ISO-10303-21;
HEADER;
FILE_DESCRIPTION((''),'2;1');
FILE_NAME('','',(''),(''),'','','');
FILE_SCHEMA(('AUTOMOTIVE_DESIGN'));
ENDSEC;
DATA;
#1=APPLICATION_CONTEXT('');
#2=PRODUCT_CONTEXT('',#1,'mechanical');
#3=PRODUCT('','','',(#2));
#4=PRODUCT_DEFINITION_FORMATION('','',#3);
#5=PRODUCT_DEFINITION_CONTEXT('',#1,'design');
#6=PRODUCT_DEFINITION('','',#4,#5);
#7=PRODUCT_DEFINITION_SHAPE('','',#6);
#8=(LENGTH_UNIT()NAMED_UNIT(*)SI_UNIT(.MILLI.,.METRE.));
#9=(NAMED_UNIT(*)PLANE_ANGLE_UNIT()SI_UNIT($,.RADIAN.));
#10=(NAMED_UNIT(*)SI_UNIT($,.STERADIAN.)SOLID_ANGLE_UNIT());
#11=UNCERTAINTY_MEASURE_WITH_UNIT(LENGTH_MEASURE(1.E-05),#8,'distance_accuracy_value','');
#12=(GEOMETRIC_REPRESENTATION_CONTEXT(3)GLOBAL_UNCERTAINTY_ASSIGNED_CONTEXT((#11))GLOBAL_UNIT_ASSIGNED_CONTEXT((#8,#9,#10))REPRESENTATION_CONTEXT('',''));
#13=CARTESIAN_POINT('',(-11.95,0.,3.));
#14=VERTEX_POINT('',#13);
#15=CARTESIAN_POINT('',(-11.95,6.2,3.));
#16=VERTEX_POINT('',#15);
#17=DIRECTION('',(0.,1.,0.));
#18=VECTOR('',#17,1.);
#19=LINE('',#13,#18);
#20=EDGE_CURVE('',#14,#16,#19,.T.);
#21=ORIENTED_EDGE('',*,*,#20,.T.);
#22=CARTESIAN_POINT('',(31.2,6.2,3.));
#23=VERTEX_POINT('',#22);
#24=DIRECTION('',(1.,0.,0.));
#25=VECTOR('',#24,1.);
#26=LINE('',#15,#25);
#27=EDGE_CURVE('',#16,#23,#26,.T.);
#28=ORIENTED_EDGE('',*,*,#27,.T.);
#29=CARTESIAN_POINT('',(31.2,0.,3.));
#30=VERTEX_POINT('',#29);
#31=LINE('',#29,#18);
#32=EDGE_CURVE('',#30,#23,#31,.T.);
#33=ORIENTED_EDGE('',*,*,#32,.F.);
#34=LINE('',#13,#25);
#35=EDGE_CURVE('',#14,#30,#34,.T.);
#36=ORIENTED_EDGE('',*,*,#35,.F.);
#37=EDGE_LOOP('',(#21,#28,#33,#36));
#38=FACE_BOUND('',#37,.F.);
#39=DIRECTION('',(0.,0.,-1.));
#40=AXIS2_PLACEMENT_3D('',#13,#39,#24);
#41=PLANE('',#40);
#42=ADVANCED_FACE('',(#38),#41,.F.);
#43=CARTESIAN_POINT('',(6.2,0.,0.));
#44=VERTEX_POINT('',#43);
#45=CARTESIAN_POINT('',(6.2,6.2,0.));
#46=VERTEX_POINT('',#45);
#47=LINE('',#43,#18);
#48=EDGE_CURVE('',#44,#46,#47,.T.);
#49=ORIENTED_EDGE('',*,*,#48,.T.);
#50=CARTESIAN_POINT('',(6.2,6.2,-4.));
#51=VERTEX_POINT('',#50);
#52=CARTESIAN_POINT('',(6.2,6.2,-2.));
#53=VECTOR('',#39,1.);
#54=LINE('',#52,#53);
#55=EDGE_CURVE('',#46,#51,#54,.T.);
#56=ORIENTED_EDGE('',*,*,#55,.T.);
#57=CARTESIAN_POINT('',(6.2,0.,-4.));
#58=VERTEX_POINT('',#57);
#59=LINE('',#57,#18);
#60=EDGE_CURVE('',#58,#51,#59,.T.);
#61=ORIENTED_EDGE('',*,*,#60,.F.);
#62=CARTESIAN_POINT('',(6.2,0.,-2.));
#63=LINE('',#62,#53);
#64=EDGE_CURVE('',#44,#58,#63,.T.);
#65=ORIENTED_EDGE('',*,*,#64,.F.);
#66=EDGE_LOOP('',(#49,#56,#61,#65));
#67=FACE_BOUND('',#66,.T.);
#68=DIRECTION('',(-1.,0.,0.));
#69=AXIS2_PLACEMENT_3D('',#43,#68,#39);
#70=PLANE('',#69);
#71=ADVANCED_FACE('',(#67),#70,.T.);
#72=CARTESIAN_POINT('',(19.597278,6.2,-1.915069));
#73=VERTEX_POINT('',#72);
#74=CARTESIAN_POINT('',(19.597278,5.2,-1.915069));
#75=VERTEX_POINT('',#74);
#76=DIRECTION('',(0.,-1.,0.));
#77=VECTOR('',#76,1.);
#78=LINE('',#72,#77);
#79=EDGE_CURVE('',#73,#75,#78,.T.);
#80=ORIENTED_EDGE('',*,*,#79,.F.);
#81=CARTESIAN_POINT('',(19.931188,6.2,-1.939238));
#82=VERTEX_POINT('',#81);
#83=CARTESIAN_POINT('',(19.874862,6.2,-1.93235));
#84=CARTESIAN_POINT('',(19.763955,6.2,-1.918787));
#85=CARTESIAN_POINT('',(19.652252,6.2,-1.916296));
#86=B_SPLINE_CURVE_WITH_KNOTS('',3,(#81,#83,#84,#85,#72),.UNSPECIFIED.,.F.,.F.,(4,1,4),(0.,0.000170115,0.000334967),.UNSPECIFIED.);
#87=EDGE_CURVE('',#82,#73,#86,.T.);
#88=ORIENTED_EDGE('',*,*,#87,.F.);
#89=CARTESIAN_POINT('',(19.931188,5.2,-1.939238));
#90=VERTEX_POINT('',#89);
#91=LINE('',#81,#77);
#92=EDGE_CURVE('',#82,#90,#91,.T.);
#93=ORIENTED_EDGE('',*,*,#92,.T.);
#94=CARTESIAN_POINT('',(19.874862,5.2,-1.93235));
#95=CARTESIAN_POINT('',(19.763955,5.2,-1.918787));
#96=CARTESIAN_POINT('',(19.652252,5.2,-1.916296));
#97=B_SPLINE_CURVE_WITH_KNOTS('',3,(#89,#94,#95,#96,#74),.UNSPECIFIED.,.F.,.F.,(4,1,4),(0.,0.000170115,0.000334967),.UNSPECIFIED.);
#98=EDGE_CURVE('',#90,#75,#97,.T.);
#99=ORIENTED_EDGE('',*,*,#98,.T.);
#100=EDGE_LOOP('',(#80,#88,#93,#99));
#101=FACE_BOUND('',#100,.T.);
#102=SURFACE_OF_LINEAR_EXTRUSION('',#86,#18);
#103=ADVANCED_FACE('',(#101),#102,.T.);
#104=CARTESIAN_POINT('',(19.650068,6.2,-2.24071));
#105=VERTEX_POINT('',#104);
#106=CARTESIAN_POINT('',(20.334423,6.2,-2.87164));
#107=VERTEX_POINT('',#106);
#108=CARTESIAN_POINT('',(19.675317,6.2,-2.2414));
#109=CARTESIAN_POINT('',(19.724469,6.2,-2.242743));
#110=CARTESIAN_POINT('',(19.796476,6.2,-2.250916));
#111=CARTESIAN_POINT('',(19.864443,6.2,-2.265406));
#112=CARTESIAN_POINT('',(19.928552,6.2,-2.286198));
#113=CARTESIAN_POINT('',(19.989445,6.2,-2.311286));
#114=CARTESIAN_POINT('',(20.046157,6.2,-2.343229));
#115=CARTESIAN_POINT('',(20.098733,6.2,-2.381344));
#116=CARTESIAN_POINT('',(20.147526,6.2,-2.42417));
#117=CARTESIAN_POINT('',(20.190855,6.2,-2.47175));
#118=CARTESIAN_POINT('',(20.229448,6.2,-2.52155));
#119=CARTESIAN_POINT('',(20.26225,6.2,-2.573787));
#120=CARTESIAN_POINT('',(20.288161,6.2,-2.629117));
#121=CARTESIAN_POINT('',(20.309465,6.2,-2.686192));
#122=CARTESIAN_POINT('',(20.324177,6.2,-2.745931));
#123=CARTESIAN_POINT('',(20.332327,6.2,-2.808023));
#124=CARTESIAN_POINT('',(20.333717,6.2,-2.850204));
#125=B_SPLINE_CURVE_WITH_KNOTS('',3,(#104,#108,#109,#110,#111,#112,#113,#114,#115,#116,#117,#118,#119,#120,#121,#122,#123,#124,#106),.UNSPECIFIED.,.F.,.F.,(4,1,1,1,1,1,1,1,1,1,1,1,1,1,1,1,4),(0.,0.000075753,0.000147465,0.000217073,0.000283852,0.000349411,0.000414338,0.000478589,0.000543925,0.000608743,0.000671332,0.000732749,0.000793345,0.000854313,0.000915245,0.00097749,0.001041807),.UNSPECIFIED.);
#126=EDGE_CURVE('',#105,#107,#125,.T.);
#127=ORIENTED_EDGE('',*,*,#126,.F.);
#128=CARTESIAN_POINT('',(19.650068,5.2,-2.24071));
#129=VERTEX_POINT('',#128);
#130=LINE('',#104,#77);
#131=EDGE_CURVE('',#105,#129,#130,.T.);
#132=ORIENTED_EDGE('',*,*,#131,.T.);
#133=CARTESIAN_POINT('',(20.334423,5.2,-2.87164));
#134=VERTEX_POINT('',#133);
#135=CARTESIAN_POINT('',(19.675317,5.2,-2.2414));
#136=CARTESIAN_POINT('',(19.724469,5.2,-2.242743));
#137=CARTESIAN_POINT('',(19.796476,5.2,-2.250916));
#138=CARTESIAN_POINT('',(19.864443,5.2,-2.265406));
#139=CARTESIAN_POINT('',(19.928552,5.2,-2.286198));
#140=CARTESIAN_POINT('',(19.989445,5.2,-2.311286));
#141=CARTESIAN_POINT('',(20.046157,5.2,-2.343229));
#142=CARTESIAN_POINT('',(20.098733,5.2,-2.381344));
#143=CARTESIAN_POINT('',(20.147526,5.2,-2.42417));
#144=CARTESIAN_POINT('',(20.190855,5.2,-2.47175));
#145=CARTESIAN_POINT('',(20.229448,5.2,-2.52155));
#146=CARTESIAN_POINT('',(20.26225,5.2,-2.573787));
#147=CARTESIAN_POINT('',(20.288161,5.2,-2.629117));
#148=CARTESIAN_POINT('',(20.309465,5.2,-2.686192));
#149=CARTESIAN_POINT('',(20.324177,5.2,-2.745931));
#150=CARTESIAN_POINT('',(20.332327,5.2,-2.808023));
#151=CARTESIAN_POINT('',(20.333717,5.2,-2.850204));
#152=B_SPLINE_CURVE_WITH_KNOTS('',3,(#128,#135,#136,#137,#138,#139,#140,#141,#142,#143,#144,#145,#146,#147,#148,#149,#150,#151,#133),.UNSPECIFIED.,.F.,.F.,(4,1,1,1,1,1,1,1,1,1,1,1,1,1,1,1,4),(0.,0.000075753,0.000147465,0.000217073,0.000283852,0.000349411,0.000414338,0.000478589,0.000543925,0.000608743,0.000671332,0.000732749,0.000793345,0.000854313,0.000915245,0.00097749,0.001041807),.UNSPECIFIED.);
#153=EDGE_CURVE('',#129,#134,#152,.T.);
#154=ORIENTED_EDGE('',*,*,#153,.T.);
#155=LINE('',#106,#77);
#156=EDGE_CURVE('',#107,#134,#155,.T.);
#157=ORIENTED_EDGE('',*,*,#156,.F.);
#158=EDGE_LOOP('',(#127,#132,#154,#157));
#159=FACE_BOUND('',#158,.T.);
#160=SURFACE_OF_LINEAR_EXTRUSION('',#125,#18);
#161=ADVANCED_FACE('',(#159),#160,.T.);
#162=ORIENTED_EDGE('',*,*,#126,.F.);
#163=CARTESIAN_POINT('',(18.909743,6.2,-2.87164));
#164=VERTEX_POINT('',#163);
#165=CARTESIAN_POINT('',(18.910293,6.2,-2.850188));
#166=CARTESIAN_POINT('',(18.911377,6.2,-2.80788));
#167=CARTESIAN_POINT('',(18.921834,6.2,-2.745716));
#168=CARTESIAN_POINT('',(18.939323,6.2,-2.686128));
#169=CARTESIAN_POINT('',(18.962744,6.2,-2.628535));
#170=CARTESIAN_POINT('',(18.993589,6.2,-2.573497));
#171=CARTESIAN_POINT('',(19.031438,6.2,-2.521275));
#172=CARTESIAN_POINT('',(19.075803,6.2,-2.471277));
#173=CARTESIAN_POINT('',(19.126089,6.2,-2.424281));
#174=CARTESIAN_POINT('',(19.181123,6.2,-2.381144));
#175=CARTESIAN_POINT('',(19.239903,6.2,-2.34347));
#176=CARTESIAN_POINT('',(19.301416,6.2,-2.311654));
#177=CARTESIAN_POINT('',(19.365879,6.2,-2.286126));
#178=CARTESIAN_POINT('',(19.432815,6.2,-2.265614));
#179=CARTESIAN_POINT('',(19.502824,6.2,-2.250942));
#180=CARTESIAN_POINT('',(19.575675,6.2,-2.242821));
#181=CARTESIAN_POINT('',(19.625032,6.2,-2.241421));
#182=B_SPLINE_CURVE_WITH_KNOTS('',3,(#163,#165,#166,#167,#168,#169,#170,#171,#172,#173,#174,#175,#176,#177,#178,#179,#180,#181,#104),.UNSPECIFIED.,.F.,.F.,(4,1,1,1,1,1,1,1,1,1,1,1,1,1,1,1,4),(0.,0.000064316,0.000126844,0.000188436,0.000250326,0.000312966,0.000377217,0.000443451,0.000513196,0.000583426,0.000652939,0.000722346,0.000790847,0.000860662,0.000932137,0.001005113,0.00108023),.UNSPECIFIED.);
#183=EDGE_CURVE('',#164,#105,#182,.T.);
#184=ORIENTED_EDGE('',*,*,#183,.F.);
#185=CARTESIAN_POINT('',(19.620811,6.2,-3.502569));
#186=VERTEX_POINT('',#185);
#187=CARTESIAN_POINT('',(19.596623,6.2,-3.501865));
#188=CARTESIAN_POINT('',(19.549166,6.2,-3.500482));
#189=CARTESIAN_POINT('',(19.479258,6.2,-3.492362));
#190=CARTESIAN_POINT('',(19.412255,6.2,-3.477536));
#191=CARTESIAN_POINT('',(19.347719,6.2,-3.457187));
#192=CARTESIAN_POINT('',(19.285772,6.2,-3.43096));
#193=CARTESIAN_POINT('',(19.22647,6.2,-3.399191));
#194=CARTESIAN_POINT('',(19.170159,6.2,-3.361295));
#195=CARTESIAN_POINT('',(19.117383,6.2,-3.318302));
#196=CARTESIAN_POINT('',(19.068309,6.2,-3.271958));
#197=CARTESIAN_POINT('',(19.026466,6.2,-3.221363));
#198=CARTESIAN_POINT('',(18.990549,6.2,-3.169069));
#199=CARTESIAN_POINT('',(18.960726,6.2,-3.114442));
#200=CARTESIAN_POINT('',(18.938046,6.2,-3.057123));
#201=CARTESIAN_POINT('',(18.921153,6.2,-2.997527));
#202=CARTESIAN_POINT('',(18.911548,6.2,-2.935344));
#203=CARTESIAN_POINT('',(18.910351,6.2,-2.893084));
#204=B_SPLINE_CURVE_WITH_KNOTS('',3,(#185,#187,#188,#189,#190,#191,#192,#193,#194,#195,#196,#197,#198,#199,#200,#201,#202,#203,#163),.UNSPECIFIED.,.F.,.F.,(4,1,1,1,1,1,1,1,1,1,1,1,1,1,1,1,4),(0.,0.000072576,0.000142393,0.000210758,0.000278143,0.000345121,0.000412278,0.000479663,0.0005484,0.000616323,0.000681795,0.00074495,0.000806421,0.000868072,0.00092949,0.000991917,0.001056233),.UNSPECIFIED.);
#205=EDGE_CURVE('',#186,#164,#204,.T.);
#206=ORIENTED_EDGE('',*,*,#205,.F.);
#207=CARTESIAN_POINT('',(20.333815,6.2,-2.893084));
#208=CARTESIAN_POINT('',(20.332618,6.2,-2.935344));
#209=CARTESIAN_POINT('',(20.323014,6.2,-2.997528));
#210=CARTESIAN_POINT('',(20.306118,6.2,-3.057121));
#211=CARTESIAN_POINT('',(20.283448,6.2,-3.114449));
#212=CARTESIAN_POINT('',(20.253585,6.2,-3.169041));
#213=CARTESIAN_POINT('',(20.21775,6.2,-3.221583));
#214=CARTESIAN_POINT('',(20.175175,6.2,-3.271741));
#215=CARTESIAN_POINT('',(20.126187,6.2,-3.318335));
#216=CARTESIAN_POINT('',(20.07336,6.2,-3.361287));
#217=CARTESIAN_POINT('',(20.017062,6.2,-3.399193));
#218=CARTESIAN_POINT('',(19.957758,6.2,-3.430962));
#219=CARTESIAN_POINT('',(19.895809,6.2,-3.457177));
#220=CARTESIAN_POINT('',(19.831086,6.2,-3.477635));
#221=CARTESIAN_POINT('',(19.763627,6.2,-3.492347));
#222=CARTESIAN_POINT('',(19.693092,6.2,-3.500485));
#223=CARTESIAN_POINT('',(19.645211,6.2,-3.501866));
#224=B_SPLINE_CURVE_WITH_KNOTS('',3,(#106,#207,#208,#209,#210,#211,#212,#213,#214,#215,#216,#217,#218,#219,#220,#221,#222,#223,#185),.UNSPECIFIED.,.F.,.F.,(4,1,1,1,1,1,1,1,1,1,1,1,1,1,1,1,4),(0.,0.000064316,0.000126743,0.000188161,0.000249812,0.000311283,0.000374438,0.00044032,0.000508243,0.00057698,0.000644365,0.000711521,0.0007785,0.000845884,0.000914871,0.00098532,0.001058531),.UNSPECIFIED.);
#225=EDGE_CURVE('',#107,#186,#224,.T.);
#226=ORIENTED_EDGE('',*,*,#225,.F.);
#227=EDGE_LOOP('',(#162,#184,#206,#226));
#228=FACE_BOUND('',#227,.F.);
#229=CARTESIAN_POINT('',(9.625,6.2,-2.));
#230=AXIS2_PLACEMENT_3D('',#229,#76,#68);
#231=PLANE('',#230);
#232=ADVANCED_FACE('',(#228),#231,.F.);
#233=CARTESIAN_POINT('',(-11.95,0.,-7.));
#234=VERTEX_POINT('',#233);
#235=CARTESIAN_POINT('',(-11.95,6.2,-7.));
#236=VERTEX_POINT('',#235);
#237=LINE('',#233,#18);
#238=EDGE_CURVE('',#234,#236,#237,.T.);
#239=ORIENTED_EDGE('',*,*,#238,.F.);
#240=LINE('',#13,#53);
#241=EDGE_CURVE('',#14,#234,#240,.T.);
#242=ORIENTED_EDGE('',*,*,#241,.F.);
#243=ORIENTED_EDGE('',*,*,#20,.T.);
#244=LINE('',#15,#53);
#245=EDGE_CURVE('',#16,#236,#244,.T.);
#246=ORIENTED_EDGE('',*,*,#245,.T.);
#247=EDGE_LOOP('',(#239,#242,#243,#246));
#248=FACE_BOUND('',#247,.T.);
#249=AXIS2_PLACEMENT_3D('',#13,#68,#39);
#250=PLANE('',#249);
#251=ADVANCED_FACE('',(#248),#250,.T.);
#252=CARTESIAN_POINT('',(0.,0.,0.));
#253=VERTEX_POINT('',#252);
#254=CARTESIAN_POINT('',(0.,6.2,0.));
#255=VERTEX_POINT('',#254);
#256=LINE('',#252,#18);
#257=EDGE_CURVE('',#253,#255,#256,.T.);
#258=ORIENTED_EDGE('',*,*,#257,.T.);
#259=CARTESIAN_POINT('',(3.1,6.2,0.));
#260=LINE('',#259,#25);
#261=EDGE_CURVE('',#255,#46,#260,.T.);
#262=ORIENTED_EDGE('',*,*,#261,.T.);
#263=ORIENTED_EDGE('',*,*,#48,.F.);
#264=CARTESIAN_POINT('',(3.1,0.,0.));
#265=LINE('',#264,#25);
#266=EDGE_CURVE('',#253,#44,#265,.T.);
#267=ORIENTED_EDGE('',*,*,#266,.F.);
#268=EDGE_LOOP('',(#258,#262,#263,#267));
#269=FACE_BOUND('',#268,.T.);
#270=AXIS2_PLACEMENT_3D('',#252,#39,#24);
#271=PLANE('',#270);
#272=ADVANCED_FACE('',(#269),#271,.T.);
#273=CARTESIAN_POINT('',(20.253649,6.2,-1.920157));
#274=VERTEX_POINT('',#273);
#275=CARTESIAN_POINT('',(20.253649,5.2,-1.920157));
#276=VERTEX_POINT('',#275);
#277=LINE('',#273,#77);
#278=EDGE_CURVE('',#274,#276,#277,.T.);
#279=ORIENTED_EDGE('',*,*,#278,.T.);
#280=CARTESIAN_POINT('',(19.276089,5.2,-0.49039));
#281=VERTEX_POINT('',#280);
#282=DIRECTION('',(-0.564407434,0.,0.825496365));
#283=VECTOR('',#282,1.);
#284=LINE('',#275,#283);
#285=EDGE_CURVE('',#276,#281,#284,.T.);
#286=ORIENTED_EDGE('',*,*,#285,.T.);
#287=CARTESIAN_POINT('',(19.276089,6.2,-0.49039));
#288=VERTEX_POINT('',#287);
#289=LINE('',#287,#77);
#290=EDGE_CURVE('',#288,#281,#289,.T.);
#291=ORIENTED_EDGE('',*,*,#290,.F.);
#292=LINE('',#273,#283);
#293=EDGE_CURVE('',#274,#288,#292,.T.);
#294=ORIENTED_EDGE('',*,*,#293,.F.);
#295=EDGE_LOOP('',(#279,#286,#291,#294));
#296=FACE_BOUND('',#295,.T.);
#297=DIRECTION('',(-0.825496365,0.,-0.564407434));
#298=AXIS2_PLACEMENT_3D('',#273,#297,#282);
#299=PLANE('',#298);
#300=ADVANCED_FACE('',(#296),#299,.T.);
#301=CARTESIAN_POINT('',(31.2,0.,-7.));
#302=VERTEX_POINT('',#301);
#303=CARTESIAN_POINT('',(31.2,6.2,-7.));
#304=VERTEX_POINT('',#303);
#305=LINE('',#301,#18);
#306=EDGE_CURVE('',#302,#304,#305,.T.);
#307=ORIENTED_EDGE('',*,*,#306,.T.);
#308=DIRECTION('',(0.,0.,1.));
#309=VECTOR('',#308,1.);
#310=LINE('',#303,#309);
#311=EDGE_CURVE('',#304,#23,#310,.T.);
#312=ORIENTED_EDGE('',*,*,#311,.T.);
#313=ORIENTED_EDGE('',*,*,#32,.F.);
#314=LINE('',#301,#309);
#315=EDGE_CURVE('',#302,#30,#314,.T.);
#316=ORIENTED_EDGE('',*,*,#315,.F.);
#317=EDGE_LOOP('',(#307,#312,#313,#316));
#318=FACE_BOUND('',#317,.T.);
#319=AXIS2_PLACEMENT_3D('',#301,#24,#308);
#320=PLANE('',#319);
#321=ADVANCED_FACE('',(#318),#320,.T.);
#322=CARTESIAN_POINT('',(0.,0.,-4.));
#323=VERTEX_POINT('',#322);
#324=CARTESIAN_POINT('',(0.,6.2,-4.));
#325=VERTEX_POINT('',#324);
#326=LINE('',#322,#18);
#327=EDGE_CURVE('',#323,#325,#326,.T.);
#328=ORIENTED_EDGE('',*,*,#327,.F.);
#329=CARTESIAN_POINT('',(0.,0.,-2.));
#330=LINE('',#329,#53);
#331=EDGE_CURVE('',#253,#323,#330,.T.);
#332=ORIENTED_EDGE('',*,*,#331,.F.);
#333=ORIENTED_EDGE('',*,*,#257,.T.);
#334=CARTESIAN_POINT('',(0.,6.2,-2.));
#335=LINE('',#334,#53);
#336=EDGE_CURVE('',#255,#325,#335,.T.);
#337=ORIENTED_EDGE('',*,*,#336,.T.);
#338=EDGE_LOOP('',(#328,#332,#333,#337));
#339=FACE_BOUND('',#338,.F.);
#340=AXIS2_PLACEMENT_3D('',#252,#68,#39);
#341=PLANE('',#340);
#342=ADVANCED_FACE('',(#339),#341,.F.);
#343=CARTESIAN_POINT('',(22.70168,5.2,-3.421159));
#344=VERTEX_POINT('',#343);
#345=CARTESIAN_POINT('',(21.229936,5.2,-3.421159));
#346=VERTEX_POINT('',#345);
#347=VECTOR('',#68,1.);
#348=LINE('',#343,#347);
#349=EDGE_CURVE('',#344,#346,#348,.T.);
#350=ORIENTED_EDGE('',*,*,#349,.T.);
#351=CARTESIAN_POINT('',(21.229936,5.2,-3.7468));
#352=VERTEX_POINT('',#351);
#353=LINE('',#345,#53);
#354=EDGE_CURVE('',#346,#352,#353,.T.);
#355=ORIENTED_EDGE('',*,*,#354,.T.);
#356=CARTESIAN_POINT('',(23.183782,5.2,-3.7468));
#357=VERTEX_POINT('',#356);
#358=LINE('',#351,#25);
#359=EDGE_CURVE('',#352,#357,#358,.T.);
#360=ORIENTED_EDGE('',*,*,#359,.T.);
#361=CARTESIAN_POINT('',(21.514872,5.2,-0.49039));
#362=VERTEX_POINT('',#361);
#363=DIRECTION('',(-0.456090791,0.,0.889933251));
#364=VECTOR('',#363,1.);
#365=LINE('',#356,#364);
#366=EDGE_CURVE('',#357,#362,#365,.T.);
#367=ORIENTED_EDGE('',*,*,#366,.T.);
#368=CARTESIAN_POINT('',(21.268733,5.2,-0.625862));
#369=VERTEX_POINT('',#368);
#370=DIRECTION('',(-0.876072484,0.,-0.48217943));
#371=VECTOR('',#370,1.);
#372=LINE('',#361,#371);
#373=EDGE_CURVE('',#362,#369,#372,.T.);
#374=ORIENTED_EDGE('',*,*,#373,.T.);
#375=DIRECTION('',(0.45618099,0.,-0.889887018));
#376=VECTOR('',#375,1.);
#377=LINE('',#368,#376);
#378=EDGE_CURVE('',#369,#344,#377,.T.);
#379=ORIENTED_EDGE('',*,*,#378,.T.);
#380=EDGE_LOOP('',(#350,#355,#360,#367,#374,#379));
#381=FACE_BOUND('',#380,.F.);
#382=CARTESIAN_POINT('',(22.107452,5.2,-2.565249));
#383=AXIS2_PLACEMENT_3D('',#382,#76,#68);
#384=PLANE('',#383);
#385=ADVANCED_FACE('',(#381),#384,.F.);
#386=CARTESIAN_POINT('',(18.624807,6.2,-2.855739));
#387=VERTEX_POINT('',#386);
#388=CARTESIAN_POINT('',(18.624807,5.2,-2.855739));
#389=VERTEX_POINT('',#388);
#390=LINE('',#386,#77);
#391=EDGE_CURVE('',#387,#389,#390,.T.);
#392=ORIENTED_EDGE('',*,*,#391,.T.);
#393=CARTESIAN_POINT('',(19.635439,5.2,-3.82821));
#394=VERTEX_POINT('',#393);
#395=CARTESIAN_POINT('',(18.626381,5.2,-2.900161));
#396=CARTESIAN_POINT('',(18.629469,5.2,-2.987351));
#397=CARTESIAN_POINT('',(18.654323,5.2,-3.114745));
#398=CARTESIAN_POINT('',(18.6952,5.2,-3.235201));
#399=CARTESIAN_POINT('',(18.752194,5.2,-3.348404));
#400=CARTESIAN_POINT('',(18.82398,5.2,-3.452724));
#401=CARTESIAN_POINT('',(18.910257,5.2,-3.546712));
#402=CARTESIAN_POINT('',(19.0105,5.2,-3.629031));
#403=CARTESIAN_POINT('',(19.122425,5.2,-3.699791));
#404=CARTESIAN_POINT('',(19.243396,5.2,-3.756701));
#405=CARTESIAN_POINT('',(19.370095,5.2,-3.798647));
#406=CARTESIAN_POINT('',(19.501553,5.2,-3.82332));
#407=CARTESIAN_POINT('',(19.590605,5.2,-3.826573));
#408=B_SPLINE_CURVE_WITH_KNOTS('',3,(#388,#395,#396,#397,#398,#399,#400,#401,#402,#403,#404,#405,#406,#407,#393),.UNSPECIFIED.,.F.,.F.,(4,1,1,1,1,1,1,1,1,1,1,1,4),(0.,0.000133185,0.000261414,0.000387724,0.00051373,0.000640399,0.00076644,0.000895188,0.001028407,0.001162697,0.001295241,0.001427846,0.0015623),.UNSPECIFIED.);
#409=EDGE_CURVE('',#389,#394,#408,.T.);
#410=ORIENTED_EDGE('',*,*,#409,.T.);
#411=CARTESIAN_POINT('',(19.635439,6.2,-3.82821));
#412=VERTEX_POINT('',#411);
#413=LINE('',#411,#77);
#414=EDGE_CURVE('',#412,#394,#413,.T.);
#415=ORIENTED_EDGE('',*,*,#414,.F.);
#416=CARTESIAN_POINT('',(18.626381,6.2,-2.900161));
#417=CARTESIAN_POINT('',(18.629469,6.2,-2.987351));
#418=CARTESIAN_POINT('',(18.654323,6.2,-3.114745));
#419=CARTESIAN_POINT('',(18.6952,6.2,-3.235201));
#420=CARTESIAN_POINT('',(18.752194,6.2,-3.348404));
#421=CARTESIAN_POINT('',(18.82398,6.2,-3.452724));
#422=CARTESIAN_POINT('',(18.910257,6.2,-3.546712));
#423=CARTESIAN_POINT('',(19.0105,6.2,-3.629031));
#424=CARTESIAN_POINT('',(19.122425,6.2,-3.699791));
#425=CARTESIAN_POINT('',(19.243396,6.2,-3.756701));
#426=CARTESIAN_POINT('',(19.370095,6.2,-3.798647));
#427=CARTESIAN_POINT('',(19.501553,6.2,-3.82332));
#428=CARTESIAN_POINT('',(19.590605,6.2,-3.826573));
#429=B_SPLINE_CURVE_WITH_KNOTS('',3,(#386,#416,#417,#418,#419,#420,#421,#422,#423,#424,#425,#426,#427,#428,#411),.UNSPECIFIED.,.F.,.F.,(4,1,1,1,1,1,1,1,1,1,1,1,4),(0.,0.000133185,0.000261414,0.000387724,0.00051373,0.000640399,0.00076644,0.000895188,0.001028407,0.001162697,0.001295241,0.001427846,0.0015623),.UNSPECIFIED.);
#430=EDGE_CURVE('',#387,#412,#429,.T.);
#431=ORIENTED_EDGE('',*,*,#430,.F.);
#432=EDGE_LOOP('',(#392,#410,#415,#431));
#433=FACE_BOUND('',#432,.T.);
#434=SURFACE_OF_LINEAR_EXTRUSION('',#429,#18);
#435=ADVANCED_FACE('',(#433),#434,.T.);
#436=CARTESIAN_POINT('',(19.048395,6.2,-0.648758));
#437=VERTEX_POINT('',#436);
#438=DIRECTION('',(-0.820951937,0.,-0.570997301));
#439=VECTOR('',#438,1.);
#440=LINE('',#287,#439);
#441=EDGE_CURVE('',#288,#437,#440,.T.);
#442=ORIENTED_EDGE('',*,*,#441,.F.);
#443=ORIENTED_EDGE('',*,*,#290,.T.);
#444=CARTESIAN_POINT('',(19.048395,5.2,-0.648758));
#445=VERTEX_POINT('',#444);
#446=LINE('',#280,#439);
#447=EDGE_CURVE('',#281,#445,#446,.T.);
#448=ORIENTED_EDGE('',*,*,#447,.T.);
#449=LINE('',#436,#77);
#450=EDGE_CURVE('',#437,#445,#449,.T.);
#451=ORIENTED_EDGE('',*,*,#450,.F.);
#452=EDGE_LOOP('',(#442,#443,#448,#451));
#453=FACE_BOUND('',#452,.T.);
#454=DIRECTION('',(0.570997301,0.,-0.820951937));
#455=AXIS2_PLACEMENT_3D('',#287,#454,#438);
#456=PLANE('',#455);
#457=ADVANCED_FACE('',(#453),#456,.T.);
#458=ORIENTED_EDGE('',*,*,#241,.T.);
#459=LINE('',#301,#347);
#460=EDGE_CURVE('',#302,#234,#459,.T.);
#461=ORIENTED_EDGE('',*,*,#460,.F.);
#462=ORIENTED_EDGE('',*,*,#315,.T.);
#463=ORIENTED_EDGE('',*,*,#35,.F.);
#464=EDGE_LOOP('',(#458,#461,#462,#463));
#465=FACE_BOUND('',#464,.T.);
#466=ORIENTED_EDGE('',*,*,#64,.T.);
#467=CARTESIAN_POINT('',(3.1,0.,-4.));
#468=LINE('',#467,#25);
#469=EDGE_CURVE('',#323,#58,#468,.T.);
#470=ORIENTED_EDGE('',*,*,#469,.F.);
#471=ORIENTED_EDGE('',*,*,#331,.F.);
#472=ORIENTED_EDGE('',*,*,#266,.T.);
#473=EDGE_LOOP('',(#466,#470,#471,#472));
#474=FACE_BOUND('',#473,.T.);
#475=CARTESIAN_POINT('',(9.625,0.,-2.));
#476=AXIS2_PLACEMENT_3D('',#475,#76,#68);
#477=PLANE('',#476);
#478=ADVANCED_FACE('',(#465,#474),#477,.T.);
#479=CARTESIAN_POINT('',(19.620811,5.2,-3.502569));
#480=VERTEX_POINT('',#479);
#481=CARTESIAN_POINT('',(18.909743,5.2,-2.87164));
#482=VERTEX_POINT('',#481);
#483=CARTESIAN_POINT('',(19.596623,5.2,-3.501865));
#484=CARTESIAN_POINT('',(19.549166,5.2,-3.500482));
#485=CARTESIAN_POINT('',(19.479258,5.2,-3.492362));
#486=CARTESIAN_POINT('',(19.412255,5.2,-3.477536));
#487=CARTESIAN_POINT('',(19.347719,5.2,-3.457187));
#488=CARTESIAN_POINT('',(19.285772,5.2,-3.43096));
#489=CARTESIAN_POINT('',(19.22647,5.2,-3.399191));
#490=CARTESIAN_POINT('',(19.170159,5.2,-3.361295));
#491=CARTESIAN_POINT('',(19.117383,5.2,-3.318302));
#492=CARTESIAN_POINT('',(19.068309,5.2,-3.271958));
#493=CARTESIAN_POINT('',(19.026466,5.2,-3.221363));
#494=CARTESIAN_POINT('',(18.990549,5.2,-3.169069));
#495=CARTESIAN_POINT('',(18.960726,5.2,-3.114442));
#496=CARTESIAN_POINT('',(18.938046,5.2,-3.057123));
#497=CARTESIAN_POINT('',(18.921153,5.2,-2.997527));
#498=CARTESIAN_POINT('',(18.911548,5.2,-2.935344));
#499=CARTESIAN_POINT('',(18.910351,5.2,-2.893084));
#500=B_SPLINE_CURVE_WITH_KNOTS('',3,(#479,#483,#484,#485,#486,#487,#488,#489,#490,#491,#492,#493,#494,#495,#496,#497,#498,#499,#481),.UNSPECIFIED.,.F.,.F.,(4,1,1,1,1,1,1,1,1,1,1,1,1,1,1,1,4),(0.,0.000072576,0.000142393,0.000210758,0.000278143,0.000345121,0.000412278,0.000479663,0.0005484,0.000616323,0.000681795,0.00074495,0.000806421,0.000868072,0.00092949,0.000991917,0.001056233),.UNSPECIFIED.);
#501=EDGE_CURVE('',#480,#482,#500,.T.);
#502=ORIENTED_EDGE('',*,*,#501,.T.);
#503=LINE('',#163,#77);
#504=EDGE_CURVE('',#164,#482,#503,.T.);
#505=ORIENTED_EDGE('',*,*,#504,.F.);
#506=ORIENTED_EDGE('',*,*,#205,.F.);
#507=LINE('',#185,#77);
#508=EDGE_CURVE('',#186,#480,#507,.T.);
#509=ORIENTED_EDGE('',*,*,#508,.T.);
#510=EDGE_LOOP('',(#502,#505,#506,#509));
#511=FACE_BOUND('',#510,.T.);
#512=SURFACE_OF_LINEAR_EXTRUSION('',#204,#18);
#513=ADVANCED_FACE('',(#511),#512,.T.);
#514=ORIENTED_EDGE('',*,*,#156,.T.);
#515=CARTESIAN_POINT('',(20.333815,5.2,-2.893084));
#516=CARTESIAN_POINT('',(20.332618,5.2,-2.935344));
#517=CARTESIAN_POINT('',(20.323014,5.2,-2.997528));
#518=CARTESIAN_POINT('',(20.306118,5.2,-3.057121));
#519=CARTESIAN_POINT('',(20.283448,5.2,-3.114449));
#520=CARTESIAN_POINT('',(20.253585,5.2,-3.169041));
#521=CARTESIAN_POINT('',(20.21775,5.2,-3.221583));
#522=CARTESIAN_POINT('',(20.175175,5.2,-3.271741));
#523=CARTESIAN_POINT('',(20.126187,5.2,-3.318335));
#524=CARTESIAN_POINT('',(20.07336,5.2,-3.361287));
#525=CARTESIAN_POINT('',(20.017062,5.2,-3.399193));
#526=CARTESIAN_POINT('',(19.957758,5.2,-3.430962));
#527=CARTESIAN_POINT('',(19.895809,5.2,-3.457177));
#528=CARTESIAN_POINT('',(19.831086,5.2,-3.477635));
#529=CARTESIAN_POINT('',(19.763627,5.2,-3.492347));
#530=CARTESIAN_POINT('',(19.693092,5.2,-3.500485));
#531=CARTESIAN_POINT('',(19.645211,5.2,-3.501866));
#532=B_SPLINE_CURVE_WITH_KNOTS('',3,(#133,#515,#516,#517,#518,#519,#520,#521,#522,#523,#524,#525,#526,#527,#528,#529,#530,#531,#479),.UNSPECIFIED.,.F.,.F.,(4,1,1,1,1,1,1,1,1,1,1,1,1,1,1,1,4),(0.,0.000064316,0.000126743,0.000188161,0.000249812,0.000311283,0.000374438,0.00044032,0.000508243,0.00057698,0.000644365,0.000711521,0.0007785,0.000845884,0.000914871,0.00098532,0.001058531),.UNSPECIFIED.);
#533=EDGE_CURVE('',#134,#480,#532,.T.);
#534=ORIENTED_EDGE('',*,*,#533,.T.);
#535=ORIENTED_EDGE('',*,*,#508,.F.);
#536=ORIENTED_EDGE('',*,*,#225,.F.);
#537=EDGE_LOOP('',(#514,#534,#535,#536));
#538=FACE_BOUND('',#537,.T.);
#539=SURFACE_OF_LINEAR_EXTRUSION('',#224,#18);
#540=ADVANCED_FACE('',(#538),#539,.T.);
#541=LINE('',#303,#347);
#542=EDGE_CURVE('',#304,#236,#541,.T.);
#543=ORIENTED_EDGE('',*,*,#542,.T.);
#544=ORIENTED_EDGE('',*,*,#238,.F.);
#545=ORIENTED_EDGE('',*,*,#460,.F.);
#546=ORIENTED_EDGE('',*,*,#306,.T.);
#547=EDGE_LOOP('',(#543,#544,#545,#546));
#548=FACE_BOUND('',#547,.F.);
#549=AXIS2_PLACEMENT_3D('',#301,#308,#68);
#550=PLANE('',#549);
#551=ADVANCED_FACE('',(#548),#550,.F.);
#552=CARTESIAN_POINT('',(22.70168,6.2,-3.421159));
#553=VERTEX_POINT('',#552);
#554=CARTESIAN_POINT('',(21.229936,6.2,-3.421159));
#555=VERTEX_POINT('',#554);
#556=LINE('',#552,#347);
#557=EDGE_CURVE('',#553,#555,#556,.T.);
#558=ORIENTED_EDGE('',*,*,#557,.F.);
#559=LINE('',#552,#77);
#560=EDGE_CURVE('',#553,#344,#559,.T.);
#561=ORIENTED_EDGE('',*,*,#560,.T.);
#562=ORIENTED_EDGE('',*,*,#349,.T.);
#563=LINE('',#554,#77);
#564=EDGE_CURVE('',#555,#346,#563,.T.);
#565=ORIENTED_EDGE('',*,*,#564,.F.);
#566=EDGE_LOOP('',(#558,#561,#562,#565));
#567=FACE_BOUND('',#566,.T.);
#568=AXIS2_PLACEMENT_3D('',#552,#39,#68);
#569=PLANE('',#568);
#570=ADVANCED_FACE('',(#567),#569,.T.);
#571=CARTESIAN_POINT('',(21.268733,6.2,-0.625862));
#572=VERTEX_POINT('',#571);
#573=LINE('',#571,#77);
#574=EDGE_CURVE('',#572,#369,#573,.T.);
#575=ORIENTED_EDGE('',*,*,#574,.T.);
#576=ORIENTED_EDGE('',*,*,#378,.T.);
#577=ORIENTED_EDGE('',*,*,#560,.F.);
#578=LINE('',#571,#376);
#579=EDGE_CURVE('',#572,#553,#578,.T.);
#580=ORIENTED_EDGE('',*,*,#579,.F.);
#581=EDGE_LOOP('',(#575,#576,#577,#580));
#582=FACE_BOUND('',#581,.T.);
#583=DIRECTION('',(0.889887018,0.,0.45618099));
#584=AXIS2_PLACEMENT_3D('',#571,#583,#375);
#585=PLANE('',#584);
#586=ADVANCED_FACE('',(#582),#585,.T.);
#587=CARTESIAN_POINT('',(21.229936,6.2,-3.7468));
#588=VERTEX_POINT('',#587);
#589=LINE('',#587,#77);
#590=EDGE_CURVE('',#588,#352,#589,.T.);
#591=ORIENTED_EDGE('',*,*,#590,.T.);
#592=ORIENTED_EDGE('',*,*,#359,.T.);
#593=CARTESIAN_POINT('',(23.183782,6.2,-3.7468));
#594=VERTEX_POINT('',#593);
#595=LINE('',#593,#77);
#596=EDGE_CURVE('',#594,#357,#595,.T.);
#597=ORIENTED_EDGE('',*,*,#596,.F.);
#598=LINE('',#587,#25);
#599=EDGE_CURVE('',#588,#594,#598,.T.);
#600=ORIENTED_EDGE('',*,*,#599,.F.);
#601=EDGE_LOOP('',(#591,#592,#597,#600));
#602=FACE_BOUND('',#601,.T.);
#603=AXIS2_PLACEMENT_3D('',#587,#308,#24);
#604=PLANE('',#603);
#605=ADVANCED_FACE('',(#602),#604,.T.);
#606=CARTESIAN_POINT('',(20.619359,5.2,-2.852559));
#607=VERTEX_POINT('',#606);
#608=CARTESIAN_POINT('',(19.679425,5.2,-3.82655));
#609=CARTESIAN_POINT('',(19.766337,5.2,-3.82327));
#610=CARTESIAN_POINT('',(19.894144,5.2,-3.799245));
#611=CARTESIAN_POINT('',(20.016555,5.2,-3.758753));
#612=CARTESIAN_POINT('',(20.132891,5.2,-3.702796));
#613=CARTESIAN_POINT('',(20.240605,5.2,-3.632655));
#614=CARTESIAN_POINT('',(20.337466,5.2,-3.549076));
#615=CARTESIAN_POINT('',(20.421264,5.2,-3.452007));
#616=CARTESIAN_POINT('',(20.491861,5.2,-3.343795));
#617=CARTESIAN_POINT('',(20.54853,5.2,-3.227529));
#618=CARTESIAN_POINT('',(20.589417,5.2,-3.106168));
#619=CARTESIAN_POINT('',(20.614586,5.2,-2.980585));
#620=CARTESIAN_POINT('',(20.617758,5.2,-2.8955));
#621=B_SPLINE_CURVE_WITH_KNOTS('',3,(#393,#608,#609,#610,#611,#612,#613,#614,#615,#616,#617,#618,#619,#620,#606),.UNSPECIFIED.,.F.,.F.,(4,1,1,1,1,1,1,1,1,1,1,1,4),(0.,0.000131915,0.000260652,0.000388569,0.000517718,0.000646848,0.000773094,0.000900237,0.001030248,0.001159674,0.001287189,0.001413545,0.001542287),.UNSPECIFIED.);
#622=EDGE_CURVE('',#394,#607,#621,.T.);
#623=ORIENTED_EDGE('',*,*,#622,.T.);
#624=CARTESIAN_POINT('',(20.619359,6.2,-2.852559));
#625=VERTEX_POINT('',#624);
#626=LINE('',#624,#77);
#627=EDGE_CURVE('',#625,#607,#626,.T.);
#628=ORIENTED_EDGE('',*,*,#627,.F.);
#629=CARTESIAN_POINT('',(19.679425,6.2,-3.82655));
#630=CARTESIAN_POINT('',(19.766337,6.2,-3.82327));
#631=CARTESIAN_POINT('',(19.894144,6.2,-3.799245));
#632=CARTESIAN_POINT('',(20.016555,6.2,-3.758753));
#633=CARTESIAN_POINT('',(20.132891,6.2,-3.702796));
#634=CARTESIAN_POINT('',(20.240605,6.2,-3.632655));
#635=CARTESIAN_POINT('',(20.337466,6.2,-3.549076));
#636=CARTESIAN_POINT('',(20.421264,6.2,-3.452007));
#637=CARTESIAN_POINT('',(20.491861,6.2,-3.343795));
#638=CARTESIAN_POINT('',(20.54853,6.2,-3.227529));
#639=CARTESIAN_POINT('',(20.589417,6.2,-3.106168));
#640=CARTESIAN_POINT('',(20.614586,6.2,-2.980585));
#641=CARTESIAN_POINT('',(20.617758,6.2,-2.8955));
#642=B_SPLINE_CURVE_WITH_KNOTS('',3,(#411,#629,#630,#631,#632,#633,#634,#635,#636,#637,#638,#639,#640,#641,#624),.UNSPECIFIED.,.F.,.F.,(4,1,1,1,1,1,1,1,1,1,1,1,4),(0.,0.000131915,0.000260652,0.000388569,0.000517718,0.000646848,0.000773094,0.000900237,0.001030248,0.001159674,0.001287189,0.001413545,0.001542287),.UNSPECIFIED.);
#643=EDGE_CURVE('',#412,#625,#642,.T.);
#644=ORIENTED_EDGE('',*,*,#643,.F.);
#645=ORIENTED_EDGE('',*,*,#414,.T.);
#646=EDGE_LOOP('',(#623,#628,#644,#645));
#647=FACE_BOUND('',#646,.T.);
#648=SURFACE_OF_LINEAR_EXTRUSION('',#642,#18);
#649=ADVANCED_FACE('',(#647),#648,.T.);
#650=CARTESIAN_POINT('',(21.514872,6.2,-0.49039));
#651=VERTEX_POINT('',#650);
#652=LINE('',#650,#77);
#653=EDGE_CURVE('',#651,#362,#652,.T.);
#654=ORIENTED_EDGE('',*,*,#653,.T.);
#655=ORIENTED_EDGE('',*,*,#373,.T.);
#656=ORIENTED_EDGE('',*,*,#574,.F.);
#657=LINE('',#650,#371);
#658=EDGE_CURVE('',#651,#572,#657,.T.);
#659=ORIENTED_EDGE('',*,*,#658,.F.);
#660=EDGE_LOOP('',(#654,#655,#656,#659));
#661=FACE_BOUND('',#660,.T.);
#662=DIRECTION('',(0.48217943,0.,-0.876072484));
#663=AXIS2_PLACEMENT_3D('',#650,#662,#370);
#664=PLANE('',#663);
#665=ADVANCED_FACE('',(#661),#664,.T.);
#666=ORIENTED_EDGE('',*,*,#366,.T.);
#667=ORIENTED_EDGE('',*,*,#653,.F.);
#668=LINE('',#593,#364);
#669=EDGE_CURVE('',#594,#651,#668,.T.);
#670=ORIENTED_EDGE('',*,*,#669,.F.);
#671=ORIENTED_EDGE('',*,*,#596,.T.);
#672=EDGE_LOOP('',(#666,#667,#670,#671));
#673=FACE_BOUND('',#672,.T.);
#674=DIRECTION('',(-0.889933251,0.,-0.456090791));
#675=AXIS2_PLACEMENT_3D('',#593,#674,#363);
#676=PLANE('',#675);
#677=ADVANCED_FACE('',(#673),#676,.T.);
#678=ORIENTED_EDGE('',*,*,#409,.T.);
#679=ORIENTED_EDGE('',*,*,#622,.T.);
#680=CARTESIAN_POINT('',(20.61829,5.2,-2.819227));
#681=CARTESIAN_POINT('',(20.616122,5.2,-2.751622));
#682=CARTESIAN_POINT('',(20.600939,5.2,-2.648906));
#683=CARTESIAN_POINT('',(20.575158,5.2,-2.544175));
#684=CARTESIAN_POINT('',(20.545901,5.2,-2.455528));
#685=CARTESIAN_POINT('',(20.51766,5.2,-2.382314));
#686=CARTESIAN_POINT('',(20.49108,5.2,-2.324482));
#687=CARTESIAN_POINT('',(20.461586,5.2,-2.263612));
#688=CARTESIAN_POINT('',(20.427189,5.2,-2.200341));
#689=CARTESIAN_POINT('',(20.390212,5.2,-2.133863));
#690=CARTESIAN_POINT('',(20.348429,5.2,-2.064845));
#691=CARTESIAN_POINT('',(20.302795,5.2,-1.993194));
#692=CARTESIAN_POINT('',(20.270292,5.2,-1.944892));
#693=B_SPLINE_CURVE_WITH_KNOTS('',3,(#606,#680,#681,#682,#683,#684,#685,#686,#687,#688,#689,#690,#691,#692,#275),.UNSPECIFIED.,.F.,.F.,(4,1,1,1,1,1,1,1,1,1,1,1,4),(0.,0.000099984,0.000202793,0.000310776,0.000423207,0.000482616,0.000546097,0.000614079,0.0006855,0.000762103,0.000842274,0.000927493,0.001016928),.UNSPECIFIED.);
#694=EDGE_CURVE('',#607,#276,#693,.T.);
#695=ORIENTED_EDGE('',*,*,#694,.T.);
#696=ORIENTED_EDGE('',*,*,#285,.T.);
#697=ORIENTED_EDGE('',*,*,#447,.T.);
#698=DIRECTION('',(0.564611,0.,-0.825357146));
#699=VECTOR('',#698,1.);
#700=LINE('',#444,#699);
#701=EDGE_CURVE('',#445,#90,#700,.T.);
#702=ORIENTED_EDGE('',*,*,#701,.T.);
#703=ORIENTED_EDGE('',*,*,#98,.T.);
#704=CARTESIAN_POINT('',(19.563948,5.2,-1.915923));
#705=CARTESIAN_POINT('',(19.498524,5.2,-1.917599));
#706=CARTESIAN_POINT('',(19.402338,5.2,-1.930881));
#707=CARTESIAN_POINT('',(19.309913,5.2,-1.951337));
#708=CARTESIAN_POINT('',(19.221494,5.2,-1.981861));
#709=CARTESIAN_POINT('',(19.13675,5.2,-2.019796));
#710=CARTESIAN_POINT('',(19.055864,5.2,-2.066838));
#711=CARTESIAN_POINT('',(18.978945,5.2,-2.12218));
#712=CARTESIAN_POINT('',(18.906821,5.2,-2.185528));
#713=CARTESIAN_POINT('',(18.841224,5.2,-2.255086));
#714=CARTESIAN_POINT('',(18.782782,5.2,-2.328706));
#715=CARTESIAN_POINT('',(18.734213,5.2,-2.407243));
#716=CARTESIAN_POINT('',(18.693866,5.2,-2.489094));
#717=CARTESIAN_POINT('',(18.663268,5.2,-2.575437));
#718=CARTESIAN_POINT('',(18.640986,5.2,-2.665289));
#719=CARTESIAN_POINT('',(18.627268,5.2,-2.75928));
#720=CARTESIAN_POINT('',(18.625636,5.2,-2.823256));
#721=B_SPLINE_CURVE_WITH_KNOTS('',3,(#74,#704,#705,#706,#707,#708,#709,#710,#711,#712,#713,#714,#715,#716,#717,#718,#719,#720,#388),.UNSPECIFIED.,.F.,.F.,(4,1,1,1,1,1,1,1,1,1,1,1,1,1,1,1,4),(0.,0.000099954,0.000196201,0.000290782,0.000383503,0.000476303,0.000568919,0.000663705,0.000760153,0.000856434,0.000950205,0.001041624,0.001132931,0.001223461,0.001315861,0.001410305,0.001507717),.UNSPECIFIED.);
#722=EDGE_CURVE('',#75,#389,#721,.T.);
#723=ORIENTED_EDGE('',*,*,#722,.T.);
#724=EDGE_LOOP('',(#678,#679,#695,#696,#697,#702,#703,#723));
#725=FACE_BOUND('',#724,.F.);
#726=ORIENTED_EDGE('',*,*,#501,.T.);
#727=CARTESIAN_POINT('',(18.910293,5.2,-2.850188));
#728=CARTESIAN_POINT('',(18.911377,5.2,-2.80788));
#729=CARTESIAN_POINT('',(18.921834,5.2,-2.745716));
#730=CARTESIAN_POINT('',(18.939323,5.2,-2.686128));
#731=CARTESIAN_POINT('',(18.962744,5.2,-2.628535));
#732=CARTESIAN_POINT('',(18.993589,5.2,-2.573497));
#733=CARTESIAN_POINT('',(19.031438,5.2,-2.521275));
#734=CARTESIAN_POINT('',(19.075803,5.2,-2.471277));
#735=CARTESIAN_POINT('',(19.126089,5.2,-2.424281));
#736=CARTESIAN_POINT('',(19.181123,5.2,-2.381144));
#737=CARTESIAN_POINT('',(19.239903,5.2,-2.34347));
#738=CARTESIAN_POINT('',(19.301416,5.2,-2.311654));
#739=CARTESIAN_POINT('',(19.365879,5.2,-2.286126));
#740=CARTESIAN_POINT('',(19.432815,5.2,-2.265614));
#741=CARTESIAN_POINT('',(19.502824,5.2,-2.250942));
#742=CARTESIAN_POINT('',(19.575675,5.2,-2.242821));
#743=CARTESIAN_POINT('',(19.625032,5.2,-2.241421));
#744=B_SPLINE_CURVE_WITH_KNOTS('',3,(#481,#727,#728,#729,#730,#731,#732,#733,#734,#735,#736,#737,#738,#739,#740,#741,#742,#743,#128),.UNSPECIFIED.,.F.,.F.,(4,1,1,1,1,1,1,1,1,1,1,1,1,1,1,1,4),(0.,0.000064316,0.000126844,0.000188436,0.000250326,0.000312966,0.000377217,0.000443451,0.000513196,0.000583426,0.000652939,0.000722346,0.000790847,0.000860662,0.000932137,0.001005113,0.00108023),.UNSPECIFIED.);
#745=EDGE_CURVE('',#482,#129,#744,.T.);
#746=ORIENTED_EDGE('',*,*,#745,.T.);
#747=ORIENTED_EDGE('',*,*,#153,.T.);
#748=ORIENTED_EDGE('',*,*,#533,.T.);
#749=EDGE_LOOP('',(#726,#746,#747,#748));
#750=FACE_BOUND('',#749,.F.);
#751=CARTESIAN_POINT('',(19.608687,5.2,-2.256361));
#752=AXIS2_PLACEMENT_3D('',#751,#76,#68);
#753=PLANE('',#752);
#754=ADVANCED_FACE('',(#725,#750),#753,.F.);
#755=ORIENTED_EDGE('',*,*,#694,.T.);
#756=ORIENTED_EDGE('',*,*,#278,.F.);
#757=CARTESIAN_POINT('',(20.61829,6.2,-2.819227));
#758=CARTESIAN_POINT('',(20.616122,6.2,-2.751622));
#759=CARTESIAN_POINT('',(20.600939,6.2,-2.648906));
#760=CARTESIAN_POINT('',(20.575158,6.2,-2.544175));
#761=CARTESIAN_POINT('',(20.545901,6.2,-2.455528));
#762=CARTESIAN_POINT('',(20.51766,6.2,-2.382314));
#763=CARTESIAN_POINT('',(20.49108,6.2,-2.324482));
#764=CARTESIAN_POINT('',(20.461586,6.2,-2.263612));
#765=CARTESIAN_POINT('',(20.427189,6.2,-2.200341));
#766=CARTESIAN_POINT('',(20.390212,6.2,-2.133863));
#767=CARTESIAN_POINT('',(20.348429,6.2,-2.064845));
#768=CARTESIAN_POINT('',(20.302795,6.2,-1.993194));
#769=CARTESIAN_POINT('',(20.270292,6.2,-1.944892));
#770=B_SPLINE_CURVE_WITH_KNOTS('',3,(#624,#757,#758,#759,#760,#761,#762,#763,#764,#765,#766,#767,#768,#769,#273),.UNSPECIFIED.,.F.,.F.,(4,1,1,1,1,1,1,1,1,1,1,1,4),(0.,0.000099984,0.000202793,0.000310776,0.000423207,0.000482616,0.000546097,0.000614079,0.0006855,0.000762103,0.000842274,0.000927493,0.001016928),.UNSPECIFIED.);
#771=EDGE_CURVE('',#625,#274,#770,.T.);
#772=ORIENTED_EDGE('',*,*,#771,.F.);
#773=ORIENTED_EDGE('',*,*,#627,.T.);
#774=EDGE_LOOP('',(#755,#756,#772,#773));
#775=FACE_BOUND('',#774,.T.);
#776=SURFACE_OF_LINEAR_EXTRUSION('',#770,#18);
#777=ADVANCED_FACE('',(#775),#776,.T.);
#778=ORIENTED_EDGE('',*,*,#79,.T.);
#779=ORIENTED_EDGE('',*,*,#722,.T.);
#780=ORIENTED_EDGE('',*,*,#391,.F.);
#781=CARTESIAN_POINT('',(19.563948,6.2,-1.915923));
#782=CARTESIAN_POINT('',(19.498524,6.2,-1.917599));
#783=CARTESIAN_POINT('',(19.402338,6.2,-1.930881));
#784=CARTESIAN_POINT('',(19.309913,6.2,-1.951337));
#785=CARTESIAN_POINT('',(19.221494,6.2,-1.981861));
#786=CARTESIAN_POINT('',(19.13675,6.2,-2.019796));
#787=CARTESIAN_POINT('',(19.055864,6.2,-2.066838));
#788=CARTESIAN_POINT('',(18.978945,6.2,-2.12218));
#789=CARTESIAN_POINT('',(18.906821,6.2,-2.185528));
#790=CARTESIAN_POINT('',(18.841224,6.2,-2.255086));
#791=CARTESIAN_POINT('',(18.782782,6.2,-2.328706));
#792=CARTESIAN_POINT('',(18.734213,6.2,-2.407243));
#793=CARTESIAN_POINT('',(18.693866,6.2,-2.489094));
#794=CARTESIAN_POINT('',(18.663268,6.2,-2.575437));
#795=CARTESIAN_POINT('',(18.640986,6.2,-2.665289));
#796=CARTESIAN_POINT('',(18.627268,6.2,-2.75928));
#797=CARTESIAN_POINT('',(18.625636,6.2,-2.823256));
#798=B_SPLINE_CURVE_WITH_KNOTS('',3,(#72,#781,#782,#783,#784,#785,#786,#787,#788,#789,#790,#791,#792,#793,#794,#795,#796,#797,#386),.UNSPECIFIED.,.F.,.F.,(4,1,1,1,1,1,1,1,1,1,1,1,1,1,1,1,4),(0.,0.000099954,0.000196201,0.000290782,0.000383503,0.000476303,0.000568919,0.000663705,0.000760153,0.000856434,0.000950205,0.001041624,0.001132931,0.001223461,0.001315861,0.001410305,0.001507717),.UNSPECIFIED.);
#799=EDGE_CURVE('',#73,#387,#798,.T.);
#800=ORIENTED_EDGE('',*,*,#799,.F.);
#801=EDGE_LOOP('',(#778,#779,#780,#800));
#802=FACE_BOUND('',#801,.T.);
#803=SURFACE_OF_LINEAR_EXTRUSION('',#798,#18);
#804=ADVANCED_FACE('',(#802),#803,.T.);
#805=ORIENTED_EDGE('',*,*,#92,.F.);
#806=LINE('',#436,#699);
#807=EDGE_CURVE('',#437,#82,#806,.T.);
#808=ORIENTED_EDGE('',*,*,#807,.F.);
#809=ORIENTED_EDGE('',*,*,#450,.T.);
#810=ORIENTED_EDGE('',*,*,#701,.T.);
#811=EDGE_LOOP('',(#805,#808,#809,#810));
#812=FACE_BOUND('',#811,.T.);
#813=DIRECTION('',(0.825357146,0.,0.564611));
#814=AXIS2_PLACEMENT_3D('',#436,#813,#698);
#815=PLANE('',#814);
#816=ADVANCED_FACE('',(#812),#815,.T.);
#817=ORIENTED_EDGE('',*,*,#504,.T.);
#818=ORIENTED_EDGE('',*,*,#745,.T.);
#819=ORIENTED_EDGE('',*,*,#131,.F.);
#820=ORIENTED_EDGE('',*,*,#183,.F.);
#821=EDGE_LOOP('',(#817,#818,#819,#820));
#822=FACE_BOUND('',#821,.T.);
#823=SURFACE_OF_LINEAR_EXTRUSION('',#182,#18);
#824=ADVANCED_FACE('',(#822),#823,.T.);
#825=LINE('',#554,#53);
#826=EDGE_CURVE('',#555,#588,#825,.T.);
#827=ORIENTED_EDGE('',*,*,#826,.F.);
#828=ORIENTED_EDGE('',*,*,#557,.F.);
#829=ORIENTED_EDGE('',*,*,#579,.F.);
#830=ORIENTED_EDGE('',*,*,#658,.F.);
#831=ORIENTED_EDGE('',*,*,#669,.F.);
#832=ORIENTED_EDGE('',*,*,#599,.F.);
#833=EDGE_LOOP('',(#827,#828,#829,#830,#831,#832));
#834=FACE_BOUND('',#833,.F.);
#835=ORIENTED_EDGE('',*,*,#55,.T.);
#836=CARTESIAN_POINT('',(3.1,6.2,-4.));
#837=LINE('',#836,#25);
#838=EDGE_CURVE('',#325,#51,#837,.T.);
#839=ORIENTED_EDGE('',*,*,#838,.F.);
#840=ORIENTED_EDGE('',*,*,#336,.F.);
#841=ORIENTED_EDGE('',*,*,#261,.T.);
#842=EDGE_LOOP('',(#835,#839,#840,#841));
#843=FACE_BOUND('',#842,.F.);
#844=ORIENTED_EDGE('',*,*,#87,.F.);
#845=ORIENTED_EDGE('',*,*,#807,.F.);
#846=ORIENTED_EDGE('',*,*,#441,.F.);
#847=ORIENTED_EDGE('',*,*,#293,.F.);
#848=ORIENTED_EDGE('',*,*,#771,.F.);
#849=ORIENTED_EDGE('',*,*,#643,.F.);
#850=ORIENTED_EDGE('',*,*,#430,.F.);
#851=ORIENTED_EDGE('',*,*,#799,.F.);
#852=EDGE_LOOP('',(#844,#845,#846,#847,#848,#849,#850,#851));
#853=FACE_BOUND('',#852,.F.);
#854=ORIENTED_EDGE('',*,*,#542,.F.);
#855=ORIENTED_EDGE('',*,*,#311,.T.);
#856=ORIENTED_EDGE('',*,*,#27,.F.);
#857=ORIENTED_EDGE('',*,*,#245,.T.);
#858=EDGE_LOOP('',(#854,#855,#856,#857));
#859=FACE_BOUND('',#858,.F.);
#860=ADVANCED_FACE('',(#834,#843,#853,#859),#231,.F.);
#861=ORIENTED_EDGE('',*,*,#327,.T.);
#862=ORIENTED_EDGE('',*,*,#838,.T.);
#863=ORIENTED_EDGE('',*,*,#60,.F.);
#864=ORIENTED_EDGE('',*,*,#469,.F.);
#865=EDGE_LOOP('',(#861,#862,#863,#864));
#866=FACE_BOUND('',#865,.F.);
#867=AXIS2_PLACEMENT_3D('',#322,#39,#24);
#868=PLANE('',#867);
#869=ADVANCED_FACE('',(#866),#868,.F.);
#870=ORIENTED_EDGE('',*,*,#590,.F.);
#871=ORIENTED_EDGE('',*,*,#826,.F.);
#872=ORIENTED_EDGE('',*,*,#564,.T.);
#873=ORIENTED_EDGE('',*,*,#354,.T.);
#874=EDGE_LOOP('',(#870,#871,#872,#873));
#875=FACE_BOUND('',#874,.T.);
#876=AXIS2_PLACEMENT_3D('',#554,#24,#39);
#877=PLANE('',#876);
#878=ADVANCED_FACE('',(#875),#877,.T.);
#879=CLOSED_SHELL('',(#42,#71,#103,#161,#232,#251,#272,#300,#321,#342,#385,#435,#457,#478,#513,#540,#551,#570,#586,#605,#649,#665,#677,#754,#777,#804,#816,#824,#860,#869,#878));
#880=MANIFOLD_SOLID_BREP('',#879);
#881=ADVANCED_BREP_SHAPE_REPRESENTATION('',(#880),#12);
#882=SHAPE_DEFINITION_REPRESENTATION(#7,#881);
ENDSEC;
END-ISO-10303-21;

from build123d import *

# Parameters (mm, degrees)
SKETCH2_W           = 6.2
SKETCH2_H           = 4
BOSS_EXTRUDE1_DEPTH = 6.2
CUT_EXTRUDE1_DEPTH  = 1


with BuildPart() as part:
    # Sketch2 → Boss-Extrude1 (new body)
    with BuildSketch(Plane(origin=(0, 0, 0), x_dir=(1, 0, 0), z_dir=(0, 1, 0))):
        Polygon((-0.1, 7), (6.2, 7), (31.2, 7), (31.2, -3), (6.2, -3), (-0.1, -3), (-11.95, -3), (-11.95, 7), align=None)
        with Locations((3.1, 2)):
            Rectangle(SKETCH2_W, SKETCH2_H, mode=Mode.SUBTRACT)
    extrude(amount=BOSS_EXTRUDE1_DEPTH)

    # Sketch3 → Cut-Extrude1 (cut)
    with BuildSketch(Plane(origin=(0, 6.2, 0), x_dir=(1, 0, 0), z_dir=(0, 1, 0))):
        with BuildLine():
            Line((19.276089489, 0.490389836), (19.048395179, 0.648758226))
            Line((19.048395179, 0.648758226), (19.931187647, 1.939237994))
            add(Edge.make_bspline(
                [(19.931187647, 1.939237994), (19.874862479, 1.93235), (19.763955085, 1.918787158), (19.652252142, 1.91629555), (19.597278392, 1.915069324)],
                knots=[0, 0, 0, 0, 0.000170115, 0.000334967, 0.000334967, 0.000334967, 0.000334967], degree=3))
            add(Edge.make_bspline(
                [(19.597278392, 1.915069324), (19.563948105, 1.915923014), (19.498523668, 1.917598735), (19.402337812, 1.930880947), (19.309913054, 1.951337134), (19.221494424, 1.981861362), (19.136749587, 2.019796451), (19.055863547, 2.066838171), (18.978945189, 2.122179593), (18.90682061, 2.185528092), (18.841223533, 2.25508604), (18.782782398, 2.328705801), (18.734212943, 2.407242575), (18.693866326, 2.489094274), (18.663267986, 2.575437356), (18.640986256, 2.665289312), (18.62726812, 2.759279873), (18.625636083, 2.823256242), (18.624807438, 2.855739396)],
                knots=[0, 0, 0, 0, 9.9954e-05, 0.000196201, 0.000290782, 0.000383503, 0.000476303, 0.000568919, 0.000663705, 0.000760153, 0.000856434, 0.000950205, 0.001041624, 0.001132931, 0.001223461, 0.001315861, 0.001410305, 0.001507717, 0.001507717, 0.001507717, 0.001507717], degree=3))
            add(Edge.make_bspline(
                [(18.624807438, 2.855739396), (18.626380818, 2.900160959), (18.629469044, 2.987351477), (18.654323414, 3.114744968), (18.695199578, 3.235201332), (18.752193892, 3.348403865), (18.823980389, 3.45272415), (18.910257467, 3.54671196), (19.010500349, 3.629030506), (19.122425466, 3.699791348), (19.243395707, 3.756700952), (19.370095132, 3.798646603), (19.501552941, 3.823319753), (19.590605042, 3.826572641), (19.635439449, 3.828210349)],
                knots=[0, 0, 0, 0, 0.000133185, 0.000261414, 0.000387724, 0.00051373, 0.000640399, 0.00076644, 0.000895188, 0.001028407, 0.001162697, 0.001295241, 0.001427846, 0.0015623, 0.0015623, 0.0015623, 0.0015623], degree=3))
            add(Edge.make_bspline(
                [(19.635439449, 3.828210349), (19.679425373, 3.82655013), (19.766337412, 3.823269693), (19.894143868, 3.79924495), (20.016554647, 3.758753111), (20.132891171, 3.702796399), (20.240604781, 3.63265529), (20.337465695, 3.549076115), (20.421263506, 3.452006815), (20.491860883, 3.343795114), (20.548530134, 3.227529352), (20.589417134, 3.106168222), (20.614586392, 2.980584525), (20.61775806, 2.895499538), (20.61935872, 2.852559308)],
                knots=[0, 0, 0, 0, 0.000131915, 0.000260652, 0.000388569, 0.000517718, 0.000646848, 0.000773094, 0.000900237, 0.001030248, 0.001159674, 0.001287189, 0.001413545, 0.001542287, 0.001542287, 0.001542287, 0.001542287], degree=3))
            add(Edge.make_bspline(
                [(20.61935872, 2.852559308), (20.618289735, 2.819227462), (20.616121566, 2.75162215), (20.600939344, 2.648906053), (20.575158176, 2.544175295), (20.545901278, 2.455527847), (20.517659955, 2.382313754), (20.491079642, 2.324481963), (20.461586475, 2.263611531), (20.427188737, 2.200340732), (20.390211511, 2.133863004), (20.348429167, 2.064845112), (20.302794827, 1.993194439), (20.270292153, 1.944891724), (20.253648584, 1.920157465)],
                knots=[0, 0, 0, 0, 9.9984e-05, 0.000202793, 0.000310776, 0.000423207, 0.000482616, 0.000546097, 0.000614079, 0.0006855, 0.000762103, 0.000842274, 0.000927493, 0.001016928, 0.001016928, 0.001016928, 0.001016928], degree=3))
            Line((20.253648584, 1.920157465), (19.276089489, 0.490389836))
        make_face()
        with BuildLine():
            add(Edge.make_bspline(
                [(19.650067855, 2.240710349), (19.675317282, 2.241400126), (19.724469333, 2.242742887), (19.796475883, 2.250915556), (19.864442839, 2.265406244), (19.928551758, 2.286197697), (19.989445447, 2.311286246), (20.046156688, 2.343228548), (20.098732942, 2.381343638), (20.147526275, 2.424169867), (20.190855047, 2.471750039), (20.229447653, 2.521549557), (20.262250454, 2.573787025), (20.288161426, 2.629116627), (20.309465291, 2.686191523), (20.324177345, 2.745930831), (20.332327419, 2.808023309), (20.333716776, 2.850204234), (20.334422823, 2.871639836)],
                knots=[0, 0, 0, 0, 7.5753e-05, 0.000147465, 0.000217073, 0.000283852, 0.000349411, 0.000414338, 0.000478589, 0.000543925, 0.000608743, 0.000671332, 0.000732749, 0.000793345, 0.000854313, 0.000915245, 0.00097749, 0.001041807, 0.001041807, 0.001041807, 0.001041807], degree=3))
            add(Edge.make_bspline(
                [(20.334422823, 2.871639836), (20.333815337, 2.89308439), (20.332618212, 2.935343513), (20.323014019, 2.99752792), (20.306118281, 3.057121092), (20.283448341, 3.114449282), (20.253584983, 3.169041477), (20.217749678, 3.221583075), (20.175175241, 3.271740933), (20.126187199, 3.318335404), (20.07336014, 3.361286713), (20.017062401, 3.399192653), (19.957758012, 3.430961881), (19.895808782, 3.457177375), (19.831085637, 3.477635058), (19.763626877, 3.492346524), (19.693091616, 3.500485187), (19.645211449, 3.501865763), (19.620811044, 3.502569324)],
                knots=[0, 0, 0, 0, 6.4316e-05, 0.000126743, 0.000188161, 0.000249812, 0.000311283, 0.000374438, 0.00044032, 0.000508243, 0.00057698, 0.000644365, 0.000711521, 0.0007785, 0.000845884, 0.000914871, 0.00098532, 0.001058531, 0.001058531, 0.001058531, 0.001058531], degree=3))
            add(Edge.make_bspline(
                [(19.620811044, 3.502569324), (19.596622848, 3.501864626), (19.549165806, 3.500482016), (19.479257604, 3.492361994), (19.412254973, 3.477536119), (19.347719361, 3.457186851), (19.285771971, 3.430959926), (19.22647038, 3.399190988), (19.170159472, 3.361295438), (19.117383061, 3.318301609), (19.068308518, 3.271957816), (19.026466073, 3.221363348), (18.990548757, 3.169068808), (18.960726433, 3.114442018), (18.938045578, 3.057123031), (18.921152762, 2.997527395), (18.911547784, 2.93534365), (18.910350767, 2.893084436), (18.909743336, 2.871639836)],
                knots=[0, 0, 0, 0, 7.2576e-05, 0.000142393, 0.000210758, 0.000278143, 0.000345121, 0.000412278, 0.000479663, 0.0005484, 0.000616323, 0.000681795, 0.00074495, 0.000806421, 0.000868072, 0.00092949, 0.000991917, 0.001056233, 0.001056233, 0.001056233, 0.001056233], degree=3))
            add(Edge.make_bspline(
                [(18.909743336, 2.871639836), (18.910292997, 2.850187542), (18.91137703, 2.807879691), (18.921834382, 2.745716463), (18.939322536, 2.686127887), (18.962744412, 2.62853456), (18.993588712, 2.573496517), (19.031438202, 2.521274696), (19.075802519, 2.471277109), (19.126088611, 2.424280567), (19.1811233, 2.38114395), (19.239903206, 2.343469961), (19.301416415, 2.311654244), (19.365879466, 2.286125988), (19.432814634, 2.265613979), (19.502823503, 2.250942263), (19.575674547, 2.242821278), (19.625032174, 2.241420743), (19.650067855, 2.240710349)],
                knots=[0, 0, 0, 0, 6.4316e-05, 0.000126844, 0.000188436, 0.000250326, 0.000312966, 0.000377217, 0.000443451, 0.000513196, 0.000583426, 0.000652939, 0.000722346, 0.000790847, 0.000860662, 0.000932137, 0.001005113, 0.00108023, 0.00108023, 0.00108023, 0.00108023], degree=3))
        make_face(mode=Mode.SUBTRACT)
        Polygon((21.229935643, 3.746800093), (23.183781797, 3.746800093), (21.514871541, 0.490389836), (21.268732719, 0.625861591), (22.701680435, 3.421159067), (21.229935643, 3.421159067), align=None)
    extrude(amount=-CUT_EXTRUDE1_DEPTH, mode=Mode.SUBTRACT)


solid = part.part
